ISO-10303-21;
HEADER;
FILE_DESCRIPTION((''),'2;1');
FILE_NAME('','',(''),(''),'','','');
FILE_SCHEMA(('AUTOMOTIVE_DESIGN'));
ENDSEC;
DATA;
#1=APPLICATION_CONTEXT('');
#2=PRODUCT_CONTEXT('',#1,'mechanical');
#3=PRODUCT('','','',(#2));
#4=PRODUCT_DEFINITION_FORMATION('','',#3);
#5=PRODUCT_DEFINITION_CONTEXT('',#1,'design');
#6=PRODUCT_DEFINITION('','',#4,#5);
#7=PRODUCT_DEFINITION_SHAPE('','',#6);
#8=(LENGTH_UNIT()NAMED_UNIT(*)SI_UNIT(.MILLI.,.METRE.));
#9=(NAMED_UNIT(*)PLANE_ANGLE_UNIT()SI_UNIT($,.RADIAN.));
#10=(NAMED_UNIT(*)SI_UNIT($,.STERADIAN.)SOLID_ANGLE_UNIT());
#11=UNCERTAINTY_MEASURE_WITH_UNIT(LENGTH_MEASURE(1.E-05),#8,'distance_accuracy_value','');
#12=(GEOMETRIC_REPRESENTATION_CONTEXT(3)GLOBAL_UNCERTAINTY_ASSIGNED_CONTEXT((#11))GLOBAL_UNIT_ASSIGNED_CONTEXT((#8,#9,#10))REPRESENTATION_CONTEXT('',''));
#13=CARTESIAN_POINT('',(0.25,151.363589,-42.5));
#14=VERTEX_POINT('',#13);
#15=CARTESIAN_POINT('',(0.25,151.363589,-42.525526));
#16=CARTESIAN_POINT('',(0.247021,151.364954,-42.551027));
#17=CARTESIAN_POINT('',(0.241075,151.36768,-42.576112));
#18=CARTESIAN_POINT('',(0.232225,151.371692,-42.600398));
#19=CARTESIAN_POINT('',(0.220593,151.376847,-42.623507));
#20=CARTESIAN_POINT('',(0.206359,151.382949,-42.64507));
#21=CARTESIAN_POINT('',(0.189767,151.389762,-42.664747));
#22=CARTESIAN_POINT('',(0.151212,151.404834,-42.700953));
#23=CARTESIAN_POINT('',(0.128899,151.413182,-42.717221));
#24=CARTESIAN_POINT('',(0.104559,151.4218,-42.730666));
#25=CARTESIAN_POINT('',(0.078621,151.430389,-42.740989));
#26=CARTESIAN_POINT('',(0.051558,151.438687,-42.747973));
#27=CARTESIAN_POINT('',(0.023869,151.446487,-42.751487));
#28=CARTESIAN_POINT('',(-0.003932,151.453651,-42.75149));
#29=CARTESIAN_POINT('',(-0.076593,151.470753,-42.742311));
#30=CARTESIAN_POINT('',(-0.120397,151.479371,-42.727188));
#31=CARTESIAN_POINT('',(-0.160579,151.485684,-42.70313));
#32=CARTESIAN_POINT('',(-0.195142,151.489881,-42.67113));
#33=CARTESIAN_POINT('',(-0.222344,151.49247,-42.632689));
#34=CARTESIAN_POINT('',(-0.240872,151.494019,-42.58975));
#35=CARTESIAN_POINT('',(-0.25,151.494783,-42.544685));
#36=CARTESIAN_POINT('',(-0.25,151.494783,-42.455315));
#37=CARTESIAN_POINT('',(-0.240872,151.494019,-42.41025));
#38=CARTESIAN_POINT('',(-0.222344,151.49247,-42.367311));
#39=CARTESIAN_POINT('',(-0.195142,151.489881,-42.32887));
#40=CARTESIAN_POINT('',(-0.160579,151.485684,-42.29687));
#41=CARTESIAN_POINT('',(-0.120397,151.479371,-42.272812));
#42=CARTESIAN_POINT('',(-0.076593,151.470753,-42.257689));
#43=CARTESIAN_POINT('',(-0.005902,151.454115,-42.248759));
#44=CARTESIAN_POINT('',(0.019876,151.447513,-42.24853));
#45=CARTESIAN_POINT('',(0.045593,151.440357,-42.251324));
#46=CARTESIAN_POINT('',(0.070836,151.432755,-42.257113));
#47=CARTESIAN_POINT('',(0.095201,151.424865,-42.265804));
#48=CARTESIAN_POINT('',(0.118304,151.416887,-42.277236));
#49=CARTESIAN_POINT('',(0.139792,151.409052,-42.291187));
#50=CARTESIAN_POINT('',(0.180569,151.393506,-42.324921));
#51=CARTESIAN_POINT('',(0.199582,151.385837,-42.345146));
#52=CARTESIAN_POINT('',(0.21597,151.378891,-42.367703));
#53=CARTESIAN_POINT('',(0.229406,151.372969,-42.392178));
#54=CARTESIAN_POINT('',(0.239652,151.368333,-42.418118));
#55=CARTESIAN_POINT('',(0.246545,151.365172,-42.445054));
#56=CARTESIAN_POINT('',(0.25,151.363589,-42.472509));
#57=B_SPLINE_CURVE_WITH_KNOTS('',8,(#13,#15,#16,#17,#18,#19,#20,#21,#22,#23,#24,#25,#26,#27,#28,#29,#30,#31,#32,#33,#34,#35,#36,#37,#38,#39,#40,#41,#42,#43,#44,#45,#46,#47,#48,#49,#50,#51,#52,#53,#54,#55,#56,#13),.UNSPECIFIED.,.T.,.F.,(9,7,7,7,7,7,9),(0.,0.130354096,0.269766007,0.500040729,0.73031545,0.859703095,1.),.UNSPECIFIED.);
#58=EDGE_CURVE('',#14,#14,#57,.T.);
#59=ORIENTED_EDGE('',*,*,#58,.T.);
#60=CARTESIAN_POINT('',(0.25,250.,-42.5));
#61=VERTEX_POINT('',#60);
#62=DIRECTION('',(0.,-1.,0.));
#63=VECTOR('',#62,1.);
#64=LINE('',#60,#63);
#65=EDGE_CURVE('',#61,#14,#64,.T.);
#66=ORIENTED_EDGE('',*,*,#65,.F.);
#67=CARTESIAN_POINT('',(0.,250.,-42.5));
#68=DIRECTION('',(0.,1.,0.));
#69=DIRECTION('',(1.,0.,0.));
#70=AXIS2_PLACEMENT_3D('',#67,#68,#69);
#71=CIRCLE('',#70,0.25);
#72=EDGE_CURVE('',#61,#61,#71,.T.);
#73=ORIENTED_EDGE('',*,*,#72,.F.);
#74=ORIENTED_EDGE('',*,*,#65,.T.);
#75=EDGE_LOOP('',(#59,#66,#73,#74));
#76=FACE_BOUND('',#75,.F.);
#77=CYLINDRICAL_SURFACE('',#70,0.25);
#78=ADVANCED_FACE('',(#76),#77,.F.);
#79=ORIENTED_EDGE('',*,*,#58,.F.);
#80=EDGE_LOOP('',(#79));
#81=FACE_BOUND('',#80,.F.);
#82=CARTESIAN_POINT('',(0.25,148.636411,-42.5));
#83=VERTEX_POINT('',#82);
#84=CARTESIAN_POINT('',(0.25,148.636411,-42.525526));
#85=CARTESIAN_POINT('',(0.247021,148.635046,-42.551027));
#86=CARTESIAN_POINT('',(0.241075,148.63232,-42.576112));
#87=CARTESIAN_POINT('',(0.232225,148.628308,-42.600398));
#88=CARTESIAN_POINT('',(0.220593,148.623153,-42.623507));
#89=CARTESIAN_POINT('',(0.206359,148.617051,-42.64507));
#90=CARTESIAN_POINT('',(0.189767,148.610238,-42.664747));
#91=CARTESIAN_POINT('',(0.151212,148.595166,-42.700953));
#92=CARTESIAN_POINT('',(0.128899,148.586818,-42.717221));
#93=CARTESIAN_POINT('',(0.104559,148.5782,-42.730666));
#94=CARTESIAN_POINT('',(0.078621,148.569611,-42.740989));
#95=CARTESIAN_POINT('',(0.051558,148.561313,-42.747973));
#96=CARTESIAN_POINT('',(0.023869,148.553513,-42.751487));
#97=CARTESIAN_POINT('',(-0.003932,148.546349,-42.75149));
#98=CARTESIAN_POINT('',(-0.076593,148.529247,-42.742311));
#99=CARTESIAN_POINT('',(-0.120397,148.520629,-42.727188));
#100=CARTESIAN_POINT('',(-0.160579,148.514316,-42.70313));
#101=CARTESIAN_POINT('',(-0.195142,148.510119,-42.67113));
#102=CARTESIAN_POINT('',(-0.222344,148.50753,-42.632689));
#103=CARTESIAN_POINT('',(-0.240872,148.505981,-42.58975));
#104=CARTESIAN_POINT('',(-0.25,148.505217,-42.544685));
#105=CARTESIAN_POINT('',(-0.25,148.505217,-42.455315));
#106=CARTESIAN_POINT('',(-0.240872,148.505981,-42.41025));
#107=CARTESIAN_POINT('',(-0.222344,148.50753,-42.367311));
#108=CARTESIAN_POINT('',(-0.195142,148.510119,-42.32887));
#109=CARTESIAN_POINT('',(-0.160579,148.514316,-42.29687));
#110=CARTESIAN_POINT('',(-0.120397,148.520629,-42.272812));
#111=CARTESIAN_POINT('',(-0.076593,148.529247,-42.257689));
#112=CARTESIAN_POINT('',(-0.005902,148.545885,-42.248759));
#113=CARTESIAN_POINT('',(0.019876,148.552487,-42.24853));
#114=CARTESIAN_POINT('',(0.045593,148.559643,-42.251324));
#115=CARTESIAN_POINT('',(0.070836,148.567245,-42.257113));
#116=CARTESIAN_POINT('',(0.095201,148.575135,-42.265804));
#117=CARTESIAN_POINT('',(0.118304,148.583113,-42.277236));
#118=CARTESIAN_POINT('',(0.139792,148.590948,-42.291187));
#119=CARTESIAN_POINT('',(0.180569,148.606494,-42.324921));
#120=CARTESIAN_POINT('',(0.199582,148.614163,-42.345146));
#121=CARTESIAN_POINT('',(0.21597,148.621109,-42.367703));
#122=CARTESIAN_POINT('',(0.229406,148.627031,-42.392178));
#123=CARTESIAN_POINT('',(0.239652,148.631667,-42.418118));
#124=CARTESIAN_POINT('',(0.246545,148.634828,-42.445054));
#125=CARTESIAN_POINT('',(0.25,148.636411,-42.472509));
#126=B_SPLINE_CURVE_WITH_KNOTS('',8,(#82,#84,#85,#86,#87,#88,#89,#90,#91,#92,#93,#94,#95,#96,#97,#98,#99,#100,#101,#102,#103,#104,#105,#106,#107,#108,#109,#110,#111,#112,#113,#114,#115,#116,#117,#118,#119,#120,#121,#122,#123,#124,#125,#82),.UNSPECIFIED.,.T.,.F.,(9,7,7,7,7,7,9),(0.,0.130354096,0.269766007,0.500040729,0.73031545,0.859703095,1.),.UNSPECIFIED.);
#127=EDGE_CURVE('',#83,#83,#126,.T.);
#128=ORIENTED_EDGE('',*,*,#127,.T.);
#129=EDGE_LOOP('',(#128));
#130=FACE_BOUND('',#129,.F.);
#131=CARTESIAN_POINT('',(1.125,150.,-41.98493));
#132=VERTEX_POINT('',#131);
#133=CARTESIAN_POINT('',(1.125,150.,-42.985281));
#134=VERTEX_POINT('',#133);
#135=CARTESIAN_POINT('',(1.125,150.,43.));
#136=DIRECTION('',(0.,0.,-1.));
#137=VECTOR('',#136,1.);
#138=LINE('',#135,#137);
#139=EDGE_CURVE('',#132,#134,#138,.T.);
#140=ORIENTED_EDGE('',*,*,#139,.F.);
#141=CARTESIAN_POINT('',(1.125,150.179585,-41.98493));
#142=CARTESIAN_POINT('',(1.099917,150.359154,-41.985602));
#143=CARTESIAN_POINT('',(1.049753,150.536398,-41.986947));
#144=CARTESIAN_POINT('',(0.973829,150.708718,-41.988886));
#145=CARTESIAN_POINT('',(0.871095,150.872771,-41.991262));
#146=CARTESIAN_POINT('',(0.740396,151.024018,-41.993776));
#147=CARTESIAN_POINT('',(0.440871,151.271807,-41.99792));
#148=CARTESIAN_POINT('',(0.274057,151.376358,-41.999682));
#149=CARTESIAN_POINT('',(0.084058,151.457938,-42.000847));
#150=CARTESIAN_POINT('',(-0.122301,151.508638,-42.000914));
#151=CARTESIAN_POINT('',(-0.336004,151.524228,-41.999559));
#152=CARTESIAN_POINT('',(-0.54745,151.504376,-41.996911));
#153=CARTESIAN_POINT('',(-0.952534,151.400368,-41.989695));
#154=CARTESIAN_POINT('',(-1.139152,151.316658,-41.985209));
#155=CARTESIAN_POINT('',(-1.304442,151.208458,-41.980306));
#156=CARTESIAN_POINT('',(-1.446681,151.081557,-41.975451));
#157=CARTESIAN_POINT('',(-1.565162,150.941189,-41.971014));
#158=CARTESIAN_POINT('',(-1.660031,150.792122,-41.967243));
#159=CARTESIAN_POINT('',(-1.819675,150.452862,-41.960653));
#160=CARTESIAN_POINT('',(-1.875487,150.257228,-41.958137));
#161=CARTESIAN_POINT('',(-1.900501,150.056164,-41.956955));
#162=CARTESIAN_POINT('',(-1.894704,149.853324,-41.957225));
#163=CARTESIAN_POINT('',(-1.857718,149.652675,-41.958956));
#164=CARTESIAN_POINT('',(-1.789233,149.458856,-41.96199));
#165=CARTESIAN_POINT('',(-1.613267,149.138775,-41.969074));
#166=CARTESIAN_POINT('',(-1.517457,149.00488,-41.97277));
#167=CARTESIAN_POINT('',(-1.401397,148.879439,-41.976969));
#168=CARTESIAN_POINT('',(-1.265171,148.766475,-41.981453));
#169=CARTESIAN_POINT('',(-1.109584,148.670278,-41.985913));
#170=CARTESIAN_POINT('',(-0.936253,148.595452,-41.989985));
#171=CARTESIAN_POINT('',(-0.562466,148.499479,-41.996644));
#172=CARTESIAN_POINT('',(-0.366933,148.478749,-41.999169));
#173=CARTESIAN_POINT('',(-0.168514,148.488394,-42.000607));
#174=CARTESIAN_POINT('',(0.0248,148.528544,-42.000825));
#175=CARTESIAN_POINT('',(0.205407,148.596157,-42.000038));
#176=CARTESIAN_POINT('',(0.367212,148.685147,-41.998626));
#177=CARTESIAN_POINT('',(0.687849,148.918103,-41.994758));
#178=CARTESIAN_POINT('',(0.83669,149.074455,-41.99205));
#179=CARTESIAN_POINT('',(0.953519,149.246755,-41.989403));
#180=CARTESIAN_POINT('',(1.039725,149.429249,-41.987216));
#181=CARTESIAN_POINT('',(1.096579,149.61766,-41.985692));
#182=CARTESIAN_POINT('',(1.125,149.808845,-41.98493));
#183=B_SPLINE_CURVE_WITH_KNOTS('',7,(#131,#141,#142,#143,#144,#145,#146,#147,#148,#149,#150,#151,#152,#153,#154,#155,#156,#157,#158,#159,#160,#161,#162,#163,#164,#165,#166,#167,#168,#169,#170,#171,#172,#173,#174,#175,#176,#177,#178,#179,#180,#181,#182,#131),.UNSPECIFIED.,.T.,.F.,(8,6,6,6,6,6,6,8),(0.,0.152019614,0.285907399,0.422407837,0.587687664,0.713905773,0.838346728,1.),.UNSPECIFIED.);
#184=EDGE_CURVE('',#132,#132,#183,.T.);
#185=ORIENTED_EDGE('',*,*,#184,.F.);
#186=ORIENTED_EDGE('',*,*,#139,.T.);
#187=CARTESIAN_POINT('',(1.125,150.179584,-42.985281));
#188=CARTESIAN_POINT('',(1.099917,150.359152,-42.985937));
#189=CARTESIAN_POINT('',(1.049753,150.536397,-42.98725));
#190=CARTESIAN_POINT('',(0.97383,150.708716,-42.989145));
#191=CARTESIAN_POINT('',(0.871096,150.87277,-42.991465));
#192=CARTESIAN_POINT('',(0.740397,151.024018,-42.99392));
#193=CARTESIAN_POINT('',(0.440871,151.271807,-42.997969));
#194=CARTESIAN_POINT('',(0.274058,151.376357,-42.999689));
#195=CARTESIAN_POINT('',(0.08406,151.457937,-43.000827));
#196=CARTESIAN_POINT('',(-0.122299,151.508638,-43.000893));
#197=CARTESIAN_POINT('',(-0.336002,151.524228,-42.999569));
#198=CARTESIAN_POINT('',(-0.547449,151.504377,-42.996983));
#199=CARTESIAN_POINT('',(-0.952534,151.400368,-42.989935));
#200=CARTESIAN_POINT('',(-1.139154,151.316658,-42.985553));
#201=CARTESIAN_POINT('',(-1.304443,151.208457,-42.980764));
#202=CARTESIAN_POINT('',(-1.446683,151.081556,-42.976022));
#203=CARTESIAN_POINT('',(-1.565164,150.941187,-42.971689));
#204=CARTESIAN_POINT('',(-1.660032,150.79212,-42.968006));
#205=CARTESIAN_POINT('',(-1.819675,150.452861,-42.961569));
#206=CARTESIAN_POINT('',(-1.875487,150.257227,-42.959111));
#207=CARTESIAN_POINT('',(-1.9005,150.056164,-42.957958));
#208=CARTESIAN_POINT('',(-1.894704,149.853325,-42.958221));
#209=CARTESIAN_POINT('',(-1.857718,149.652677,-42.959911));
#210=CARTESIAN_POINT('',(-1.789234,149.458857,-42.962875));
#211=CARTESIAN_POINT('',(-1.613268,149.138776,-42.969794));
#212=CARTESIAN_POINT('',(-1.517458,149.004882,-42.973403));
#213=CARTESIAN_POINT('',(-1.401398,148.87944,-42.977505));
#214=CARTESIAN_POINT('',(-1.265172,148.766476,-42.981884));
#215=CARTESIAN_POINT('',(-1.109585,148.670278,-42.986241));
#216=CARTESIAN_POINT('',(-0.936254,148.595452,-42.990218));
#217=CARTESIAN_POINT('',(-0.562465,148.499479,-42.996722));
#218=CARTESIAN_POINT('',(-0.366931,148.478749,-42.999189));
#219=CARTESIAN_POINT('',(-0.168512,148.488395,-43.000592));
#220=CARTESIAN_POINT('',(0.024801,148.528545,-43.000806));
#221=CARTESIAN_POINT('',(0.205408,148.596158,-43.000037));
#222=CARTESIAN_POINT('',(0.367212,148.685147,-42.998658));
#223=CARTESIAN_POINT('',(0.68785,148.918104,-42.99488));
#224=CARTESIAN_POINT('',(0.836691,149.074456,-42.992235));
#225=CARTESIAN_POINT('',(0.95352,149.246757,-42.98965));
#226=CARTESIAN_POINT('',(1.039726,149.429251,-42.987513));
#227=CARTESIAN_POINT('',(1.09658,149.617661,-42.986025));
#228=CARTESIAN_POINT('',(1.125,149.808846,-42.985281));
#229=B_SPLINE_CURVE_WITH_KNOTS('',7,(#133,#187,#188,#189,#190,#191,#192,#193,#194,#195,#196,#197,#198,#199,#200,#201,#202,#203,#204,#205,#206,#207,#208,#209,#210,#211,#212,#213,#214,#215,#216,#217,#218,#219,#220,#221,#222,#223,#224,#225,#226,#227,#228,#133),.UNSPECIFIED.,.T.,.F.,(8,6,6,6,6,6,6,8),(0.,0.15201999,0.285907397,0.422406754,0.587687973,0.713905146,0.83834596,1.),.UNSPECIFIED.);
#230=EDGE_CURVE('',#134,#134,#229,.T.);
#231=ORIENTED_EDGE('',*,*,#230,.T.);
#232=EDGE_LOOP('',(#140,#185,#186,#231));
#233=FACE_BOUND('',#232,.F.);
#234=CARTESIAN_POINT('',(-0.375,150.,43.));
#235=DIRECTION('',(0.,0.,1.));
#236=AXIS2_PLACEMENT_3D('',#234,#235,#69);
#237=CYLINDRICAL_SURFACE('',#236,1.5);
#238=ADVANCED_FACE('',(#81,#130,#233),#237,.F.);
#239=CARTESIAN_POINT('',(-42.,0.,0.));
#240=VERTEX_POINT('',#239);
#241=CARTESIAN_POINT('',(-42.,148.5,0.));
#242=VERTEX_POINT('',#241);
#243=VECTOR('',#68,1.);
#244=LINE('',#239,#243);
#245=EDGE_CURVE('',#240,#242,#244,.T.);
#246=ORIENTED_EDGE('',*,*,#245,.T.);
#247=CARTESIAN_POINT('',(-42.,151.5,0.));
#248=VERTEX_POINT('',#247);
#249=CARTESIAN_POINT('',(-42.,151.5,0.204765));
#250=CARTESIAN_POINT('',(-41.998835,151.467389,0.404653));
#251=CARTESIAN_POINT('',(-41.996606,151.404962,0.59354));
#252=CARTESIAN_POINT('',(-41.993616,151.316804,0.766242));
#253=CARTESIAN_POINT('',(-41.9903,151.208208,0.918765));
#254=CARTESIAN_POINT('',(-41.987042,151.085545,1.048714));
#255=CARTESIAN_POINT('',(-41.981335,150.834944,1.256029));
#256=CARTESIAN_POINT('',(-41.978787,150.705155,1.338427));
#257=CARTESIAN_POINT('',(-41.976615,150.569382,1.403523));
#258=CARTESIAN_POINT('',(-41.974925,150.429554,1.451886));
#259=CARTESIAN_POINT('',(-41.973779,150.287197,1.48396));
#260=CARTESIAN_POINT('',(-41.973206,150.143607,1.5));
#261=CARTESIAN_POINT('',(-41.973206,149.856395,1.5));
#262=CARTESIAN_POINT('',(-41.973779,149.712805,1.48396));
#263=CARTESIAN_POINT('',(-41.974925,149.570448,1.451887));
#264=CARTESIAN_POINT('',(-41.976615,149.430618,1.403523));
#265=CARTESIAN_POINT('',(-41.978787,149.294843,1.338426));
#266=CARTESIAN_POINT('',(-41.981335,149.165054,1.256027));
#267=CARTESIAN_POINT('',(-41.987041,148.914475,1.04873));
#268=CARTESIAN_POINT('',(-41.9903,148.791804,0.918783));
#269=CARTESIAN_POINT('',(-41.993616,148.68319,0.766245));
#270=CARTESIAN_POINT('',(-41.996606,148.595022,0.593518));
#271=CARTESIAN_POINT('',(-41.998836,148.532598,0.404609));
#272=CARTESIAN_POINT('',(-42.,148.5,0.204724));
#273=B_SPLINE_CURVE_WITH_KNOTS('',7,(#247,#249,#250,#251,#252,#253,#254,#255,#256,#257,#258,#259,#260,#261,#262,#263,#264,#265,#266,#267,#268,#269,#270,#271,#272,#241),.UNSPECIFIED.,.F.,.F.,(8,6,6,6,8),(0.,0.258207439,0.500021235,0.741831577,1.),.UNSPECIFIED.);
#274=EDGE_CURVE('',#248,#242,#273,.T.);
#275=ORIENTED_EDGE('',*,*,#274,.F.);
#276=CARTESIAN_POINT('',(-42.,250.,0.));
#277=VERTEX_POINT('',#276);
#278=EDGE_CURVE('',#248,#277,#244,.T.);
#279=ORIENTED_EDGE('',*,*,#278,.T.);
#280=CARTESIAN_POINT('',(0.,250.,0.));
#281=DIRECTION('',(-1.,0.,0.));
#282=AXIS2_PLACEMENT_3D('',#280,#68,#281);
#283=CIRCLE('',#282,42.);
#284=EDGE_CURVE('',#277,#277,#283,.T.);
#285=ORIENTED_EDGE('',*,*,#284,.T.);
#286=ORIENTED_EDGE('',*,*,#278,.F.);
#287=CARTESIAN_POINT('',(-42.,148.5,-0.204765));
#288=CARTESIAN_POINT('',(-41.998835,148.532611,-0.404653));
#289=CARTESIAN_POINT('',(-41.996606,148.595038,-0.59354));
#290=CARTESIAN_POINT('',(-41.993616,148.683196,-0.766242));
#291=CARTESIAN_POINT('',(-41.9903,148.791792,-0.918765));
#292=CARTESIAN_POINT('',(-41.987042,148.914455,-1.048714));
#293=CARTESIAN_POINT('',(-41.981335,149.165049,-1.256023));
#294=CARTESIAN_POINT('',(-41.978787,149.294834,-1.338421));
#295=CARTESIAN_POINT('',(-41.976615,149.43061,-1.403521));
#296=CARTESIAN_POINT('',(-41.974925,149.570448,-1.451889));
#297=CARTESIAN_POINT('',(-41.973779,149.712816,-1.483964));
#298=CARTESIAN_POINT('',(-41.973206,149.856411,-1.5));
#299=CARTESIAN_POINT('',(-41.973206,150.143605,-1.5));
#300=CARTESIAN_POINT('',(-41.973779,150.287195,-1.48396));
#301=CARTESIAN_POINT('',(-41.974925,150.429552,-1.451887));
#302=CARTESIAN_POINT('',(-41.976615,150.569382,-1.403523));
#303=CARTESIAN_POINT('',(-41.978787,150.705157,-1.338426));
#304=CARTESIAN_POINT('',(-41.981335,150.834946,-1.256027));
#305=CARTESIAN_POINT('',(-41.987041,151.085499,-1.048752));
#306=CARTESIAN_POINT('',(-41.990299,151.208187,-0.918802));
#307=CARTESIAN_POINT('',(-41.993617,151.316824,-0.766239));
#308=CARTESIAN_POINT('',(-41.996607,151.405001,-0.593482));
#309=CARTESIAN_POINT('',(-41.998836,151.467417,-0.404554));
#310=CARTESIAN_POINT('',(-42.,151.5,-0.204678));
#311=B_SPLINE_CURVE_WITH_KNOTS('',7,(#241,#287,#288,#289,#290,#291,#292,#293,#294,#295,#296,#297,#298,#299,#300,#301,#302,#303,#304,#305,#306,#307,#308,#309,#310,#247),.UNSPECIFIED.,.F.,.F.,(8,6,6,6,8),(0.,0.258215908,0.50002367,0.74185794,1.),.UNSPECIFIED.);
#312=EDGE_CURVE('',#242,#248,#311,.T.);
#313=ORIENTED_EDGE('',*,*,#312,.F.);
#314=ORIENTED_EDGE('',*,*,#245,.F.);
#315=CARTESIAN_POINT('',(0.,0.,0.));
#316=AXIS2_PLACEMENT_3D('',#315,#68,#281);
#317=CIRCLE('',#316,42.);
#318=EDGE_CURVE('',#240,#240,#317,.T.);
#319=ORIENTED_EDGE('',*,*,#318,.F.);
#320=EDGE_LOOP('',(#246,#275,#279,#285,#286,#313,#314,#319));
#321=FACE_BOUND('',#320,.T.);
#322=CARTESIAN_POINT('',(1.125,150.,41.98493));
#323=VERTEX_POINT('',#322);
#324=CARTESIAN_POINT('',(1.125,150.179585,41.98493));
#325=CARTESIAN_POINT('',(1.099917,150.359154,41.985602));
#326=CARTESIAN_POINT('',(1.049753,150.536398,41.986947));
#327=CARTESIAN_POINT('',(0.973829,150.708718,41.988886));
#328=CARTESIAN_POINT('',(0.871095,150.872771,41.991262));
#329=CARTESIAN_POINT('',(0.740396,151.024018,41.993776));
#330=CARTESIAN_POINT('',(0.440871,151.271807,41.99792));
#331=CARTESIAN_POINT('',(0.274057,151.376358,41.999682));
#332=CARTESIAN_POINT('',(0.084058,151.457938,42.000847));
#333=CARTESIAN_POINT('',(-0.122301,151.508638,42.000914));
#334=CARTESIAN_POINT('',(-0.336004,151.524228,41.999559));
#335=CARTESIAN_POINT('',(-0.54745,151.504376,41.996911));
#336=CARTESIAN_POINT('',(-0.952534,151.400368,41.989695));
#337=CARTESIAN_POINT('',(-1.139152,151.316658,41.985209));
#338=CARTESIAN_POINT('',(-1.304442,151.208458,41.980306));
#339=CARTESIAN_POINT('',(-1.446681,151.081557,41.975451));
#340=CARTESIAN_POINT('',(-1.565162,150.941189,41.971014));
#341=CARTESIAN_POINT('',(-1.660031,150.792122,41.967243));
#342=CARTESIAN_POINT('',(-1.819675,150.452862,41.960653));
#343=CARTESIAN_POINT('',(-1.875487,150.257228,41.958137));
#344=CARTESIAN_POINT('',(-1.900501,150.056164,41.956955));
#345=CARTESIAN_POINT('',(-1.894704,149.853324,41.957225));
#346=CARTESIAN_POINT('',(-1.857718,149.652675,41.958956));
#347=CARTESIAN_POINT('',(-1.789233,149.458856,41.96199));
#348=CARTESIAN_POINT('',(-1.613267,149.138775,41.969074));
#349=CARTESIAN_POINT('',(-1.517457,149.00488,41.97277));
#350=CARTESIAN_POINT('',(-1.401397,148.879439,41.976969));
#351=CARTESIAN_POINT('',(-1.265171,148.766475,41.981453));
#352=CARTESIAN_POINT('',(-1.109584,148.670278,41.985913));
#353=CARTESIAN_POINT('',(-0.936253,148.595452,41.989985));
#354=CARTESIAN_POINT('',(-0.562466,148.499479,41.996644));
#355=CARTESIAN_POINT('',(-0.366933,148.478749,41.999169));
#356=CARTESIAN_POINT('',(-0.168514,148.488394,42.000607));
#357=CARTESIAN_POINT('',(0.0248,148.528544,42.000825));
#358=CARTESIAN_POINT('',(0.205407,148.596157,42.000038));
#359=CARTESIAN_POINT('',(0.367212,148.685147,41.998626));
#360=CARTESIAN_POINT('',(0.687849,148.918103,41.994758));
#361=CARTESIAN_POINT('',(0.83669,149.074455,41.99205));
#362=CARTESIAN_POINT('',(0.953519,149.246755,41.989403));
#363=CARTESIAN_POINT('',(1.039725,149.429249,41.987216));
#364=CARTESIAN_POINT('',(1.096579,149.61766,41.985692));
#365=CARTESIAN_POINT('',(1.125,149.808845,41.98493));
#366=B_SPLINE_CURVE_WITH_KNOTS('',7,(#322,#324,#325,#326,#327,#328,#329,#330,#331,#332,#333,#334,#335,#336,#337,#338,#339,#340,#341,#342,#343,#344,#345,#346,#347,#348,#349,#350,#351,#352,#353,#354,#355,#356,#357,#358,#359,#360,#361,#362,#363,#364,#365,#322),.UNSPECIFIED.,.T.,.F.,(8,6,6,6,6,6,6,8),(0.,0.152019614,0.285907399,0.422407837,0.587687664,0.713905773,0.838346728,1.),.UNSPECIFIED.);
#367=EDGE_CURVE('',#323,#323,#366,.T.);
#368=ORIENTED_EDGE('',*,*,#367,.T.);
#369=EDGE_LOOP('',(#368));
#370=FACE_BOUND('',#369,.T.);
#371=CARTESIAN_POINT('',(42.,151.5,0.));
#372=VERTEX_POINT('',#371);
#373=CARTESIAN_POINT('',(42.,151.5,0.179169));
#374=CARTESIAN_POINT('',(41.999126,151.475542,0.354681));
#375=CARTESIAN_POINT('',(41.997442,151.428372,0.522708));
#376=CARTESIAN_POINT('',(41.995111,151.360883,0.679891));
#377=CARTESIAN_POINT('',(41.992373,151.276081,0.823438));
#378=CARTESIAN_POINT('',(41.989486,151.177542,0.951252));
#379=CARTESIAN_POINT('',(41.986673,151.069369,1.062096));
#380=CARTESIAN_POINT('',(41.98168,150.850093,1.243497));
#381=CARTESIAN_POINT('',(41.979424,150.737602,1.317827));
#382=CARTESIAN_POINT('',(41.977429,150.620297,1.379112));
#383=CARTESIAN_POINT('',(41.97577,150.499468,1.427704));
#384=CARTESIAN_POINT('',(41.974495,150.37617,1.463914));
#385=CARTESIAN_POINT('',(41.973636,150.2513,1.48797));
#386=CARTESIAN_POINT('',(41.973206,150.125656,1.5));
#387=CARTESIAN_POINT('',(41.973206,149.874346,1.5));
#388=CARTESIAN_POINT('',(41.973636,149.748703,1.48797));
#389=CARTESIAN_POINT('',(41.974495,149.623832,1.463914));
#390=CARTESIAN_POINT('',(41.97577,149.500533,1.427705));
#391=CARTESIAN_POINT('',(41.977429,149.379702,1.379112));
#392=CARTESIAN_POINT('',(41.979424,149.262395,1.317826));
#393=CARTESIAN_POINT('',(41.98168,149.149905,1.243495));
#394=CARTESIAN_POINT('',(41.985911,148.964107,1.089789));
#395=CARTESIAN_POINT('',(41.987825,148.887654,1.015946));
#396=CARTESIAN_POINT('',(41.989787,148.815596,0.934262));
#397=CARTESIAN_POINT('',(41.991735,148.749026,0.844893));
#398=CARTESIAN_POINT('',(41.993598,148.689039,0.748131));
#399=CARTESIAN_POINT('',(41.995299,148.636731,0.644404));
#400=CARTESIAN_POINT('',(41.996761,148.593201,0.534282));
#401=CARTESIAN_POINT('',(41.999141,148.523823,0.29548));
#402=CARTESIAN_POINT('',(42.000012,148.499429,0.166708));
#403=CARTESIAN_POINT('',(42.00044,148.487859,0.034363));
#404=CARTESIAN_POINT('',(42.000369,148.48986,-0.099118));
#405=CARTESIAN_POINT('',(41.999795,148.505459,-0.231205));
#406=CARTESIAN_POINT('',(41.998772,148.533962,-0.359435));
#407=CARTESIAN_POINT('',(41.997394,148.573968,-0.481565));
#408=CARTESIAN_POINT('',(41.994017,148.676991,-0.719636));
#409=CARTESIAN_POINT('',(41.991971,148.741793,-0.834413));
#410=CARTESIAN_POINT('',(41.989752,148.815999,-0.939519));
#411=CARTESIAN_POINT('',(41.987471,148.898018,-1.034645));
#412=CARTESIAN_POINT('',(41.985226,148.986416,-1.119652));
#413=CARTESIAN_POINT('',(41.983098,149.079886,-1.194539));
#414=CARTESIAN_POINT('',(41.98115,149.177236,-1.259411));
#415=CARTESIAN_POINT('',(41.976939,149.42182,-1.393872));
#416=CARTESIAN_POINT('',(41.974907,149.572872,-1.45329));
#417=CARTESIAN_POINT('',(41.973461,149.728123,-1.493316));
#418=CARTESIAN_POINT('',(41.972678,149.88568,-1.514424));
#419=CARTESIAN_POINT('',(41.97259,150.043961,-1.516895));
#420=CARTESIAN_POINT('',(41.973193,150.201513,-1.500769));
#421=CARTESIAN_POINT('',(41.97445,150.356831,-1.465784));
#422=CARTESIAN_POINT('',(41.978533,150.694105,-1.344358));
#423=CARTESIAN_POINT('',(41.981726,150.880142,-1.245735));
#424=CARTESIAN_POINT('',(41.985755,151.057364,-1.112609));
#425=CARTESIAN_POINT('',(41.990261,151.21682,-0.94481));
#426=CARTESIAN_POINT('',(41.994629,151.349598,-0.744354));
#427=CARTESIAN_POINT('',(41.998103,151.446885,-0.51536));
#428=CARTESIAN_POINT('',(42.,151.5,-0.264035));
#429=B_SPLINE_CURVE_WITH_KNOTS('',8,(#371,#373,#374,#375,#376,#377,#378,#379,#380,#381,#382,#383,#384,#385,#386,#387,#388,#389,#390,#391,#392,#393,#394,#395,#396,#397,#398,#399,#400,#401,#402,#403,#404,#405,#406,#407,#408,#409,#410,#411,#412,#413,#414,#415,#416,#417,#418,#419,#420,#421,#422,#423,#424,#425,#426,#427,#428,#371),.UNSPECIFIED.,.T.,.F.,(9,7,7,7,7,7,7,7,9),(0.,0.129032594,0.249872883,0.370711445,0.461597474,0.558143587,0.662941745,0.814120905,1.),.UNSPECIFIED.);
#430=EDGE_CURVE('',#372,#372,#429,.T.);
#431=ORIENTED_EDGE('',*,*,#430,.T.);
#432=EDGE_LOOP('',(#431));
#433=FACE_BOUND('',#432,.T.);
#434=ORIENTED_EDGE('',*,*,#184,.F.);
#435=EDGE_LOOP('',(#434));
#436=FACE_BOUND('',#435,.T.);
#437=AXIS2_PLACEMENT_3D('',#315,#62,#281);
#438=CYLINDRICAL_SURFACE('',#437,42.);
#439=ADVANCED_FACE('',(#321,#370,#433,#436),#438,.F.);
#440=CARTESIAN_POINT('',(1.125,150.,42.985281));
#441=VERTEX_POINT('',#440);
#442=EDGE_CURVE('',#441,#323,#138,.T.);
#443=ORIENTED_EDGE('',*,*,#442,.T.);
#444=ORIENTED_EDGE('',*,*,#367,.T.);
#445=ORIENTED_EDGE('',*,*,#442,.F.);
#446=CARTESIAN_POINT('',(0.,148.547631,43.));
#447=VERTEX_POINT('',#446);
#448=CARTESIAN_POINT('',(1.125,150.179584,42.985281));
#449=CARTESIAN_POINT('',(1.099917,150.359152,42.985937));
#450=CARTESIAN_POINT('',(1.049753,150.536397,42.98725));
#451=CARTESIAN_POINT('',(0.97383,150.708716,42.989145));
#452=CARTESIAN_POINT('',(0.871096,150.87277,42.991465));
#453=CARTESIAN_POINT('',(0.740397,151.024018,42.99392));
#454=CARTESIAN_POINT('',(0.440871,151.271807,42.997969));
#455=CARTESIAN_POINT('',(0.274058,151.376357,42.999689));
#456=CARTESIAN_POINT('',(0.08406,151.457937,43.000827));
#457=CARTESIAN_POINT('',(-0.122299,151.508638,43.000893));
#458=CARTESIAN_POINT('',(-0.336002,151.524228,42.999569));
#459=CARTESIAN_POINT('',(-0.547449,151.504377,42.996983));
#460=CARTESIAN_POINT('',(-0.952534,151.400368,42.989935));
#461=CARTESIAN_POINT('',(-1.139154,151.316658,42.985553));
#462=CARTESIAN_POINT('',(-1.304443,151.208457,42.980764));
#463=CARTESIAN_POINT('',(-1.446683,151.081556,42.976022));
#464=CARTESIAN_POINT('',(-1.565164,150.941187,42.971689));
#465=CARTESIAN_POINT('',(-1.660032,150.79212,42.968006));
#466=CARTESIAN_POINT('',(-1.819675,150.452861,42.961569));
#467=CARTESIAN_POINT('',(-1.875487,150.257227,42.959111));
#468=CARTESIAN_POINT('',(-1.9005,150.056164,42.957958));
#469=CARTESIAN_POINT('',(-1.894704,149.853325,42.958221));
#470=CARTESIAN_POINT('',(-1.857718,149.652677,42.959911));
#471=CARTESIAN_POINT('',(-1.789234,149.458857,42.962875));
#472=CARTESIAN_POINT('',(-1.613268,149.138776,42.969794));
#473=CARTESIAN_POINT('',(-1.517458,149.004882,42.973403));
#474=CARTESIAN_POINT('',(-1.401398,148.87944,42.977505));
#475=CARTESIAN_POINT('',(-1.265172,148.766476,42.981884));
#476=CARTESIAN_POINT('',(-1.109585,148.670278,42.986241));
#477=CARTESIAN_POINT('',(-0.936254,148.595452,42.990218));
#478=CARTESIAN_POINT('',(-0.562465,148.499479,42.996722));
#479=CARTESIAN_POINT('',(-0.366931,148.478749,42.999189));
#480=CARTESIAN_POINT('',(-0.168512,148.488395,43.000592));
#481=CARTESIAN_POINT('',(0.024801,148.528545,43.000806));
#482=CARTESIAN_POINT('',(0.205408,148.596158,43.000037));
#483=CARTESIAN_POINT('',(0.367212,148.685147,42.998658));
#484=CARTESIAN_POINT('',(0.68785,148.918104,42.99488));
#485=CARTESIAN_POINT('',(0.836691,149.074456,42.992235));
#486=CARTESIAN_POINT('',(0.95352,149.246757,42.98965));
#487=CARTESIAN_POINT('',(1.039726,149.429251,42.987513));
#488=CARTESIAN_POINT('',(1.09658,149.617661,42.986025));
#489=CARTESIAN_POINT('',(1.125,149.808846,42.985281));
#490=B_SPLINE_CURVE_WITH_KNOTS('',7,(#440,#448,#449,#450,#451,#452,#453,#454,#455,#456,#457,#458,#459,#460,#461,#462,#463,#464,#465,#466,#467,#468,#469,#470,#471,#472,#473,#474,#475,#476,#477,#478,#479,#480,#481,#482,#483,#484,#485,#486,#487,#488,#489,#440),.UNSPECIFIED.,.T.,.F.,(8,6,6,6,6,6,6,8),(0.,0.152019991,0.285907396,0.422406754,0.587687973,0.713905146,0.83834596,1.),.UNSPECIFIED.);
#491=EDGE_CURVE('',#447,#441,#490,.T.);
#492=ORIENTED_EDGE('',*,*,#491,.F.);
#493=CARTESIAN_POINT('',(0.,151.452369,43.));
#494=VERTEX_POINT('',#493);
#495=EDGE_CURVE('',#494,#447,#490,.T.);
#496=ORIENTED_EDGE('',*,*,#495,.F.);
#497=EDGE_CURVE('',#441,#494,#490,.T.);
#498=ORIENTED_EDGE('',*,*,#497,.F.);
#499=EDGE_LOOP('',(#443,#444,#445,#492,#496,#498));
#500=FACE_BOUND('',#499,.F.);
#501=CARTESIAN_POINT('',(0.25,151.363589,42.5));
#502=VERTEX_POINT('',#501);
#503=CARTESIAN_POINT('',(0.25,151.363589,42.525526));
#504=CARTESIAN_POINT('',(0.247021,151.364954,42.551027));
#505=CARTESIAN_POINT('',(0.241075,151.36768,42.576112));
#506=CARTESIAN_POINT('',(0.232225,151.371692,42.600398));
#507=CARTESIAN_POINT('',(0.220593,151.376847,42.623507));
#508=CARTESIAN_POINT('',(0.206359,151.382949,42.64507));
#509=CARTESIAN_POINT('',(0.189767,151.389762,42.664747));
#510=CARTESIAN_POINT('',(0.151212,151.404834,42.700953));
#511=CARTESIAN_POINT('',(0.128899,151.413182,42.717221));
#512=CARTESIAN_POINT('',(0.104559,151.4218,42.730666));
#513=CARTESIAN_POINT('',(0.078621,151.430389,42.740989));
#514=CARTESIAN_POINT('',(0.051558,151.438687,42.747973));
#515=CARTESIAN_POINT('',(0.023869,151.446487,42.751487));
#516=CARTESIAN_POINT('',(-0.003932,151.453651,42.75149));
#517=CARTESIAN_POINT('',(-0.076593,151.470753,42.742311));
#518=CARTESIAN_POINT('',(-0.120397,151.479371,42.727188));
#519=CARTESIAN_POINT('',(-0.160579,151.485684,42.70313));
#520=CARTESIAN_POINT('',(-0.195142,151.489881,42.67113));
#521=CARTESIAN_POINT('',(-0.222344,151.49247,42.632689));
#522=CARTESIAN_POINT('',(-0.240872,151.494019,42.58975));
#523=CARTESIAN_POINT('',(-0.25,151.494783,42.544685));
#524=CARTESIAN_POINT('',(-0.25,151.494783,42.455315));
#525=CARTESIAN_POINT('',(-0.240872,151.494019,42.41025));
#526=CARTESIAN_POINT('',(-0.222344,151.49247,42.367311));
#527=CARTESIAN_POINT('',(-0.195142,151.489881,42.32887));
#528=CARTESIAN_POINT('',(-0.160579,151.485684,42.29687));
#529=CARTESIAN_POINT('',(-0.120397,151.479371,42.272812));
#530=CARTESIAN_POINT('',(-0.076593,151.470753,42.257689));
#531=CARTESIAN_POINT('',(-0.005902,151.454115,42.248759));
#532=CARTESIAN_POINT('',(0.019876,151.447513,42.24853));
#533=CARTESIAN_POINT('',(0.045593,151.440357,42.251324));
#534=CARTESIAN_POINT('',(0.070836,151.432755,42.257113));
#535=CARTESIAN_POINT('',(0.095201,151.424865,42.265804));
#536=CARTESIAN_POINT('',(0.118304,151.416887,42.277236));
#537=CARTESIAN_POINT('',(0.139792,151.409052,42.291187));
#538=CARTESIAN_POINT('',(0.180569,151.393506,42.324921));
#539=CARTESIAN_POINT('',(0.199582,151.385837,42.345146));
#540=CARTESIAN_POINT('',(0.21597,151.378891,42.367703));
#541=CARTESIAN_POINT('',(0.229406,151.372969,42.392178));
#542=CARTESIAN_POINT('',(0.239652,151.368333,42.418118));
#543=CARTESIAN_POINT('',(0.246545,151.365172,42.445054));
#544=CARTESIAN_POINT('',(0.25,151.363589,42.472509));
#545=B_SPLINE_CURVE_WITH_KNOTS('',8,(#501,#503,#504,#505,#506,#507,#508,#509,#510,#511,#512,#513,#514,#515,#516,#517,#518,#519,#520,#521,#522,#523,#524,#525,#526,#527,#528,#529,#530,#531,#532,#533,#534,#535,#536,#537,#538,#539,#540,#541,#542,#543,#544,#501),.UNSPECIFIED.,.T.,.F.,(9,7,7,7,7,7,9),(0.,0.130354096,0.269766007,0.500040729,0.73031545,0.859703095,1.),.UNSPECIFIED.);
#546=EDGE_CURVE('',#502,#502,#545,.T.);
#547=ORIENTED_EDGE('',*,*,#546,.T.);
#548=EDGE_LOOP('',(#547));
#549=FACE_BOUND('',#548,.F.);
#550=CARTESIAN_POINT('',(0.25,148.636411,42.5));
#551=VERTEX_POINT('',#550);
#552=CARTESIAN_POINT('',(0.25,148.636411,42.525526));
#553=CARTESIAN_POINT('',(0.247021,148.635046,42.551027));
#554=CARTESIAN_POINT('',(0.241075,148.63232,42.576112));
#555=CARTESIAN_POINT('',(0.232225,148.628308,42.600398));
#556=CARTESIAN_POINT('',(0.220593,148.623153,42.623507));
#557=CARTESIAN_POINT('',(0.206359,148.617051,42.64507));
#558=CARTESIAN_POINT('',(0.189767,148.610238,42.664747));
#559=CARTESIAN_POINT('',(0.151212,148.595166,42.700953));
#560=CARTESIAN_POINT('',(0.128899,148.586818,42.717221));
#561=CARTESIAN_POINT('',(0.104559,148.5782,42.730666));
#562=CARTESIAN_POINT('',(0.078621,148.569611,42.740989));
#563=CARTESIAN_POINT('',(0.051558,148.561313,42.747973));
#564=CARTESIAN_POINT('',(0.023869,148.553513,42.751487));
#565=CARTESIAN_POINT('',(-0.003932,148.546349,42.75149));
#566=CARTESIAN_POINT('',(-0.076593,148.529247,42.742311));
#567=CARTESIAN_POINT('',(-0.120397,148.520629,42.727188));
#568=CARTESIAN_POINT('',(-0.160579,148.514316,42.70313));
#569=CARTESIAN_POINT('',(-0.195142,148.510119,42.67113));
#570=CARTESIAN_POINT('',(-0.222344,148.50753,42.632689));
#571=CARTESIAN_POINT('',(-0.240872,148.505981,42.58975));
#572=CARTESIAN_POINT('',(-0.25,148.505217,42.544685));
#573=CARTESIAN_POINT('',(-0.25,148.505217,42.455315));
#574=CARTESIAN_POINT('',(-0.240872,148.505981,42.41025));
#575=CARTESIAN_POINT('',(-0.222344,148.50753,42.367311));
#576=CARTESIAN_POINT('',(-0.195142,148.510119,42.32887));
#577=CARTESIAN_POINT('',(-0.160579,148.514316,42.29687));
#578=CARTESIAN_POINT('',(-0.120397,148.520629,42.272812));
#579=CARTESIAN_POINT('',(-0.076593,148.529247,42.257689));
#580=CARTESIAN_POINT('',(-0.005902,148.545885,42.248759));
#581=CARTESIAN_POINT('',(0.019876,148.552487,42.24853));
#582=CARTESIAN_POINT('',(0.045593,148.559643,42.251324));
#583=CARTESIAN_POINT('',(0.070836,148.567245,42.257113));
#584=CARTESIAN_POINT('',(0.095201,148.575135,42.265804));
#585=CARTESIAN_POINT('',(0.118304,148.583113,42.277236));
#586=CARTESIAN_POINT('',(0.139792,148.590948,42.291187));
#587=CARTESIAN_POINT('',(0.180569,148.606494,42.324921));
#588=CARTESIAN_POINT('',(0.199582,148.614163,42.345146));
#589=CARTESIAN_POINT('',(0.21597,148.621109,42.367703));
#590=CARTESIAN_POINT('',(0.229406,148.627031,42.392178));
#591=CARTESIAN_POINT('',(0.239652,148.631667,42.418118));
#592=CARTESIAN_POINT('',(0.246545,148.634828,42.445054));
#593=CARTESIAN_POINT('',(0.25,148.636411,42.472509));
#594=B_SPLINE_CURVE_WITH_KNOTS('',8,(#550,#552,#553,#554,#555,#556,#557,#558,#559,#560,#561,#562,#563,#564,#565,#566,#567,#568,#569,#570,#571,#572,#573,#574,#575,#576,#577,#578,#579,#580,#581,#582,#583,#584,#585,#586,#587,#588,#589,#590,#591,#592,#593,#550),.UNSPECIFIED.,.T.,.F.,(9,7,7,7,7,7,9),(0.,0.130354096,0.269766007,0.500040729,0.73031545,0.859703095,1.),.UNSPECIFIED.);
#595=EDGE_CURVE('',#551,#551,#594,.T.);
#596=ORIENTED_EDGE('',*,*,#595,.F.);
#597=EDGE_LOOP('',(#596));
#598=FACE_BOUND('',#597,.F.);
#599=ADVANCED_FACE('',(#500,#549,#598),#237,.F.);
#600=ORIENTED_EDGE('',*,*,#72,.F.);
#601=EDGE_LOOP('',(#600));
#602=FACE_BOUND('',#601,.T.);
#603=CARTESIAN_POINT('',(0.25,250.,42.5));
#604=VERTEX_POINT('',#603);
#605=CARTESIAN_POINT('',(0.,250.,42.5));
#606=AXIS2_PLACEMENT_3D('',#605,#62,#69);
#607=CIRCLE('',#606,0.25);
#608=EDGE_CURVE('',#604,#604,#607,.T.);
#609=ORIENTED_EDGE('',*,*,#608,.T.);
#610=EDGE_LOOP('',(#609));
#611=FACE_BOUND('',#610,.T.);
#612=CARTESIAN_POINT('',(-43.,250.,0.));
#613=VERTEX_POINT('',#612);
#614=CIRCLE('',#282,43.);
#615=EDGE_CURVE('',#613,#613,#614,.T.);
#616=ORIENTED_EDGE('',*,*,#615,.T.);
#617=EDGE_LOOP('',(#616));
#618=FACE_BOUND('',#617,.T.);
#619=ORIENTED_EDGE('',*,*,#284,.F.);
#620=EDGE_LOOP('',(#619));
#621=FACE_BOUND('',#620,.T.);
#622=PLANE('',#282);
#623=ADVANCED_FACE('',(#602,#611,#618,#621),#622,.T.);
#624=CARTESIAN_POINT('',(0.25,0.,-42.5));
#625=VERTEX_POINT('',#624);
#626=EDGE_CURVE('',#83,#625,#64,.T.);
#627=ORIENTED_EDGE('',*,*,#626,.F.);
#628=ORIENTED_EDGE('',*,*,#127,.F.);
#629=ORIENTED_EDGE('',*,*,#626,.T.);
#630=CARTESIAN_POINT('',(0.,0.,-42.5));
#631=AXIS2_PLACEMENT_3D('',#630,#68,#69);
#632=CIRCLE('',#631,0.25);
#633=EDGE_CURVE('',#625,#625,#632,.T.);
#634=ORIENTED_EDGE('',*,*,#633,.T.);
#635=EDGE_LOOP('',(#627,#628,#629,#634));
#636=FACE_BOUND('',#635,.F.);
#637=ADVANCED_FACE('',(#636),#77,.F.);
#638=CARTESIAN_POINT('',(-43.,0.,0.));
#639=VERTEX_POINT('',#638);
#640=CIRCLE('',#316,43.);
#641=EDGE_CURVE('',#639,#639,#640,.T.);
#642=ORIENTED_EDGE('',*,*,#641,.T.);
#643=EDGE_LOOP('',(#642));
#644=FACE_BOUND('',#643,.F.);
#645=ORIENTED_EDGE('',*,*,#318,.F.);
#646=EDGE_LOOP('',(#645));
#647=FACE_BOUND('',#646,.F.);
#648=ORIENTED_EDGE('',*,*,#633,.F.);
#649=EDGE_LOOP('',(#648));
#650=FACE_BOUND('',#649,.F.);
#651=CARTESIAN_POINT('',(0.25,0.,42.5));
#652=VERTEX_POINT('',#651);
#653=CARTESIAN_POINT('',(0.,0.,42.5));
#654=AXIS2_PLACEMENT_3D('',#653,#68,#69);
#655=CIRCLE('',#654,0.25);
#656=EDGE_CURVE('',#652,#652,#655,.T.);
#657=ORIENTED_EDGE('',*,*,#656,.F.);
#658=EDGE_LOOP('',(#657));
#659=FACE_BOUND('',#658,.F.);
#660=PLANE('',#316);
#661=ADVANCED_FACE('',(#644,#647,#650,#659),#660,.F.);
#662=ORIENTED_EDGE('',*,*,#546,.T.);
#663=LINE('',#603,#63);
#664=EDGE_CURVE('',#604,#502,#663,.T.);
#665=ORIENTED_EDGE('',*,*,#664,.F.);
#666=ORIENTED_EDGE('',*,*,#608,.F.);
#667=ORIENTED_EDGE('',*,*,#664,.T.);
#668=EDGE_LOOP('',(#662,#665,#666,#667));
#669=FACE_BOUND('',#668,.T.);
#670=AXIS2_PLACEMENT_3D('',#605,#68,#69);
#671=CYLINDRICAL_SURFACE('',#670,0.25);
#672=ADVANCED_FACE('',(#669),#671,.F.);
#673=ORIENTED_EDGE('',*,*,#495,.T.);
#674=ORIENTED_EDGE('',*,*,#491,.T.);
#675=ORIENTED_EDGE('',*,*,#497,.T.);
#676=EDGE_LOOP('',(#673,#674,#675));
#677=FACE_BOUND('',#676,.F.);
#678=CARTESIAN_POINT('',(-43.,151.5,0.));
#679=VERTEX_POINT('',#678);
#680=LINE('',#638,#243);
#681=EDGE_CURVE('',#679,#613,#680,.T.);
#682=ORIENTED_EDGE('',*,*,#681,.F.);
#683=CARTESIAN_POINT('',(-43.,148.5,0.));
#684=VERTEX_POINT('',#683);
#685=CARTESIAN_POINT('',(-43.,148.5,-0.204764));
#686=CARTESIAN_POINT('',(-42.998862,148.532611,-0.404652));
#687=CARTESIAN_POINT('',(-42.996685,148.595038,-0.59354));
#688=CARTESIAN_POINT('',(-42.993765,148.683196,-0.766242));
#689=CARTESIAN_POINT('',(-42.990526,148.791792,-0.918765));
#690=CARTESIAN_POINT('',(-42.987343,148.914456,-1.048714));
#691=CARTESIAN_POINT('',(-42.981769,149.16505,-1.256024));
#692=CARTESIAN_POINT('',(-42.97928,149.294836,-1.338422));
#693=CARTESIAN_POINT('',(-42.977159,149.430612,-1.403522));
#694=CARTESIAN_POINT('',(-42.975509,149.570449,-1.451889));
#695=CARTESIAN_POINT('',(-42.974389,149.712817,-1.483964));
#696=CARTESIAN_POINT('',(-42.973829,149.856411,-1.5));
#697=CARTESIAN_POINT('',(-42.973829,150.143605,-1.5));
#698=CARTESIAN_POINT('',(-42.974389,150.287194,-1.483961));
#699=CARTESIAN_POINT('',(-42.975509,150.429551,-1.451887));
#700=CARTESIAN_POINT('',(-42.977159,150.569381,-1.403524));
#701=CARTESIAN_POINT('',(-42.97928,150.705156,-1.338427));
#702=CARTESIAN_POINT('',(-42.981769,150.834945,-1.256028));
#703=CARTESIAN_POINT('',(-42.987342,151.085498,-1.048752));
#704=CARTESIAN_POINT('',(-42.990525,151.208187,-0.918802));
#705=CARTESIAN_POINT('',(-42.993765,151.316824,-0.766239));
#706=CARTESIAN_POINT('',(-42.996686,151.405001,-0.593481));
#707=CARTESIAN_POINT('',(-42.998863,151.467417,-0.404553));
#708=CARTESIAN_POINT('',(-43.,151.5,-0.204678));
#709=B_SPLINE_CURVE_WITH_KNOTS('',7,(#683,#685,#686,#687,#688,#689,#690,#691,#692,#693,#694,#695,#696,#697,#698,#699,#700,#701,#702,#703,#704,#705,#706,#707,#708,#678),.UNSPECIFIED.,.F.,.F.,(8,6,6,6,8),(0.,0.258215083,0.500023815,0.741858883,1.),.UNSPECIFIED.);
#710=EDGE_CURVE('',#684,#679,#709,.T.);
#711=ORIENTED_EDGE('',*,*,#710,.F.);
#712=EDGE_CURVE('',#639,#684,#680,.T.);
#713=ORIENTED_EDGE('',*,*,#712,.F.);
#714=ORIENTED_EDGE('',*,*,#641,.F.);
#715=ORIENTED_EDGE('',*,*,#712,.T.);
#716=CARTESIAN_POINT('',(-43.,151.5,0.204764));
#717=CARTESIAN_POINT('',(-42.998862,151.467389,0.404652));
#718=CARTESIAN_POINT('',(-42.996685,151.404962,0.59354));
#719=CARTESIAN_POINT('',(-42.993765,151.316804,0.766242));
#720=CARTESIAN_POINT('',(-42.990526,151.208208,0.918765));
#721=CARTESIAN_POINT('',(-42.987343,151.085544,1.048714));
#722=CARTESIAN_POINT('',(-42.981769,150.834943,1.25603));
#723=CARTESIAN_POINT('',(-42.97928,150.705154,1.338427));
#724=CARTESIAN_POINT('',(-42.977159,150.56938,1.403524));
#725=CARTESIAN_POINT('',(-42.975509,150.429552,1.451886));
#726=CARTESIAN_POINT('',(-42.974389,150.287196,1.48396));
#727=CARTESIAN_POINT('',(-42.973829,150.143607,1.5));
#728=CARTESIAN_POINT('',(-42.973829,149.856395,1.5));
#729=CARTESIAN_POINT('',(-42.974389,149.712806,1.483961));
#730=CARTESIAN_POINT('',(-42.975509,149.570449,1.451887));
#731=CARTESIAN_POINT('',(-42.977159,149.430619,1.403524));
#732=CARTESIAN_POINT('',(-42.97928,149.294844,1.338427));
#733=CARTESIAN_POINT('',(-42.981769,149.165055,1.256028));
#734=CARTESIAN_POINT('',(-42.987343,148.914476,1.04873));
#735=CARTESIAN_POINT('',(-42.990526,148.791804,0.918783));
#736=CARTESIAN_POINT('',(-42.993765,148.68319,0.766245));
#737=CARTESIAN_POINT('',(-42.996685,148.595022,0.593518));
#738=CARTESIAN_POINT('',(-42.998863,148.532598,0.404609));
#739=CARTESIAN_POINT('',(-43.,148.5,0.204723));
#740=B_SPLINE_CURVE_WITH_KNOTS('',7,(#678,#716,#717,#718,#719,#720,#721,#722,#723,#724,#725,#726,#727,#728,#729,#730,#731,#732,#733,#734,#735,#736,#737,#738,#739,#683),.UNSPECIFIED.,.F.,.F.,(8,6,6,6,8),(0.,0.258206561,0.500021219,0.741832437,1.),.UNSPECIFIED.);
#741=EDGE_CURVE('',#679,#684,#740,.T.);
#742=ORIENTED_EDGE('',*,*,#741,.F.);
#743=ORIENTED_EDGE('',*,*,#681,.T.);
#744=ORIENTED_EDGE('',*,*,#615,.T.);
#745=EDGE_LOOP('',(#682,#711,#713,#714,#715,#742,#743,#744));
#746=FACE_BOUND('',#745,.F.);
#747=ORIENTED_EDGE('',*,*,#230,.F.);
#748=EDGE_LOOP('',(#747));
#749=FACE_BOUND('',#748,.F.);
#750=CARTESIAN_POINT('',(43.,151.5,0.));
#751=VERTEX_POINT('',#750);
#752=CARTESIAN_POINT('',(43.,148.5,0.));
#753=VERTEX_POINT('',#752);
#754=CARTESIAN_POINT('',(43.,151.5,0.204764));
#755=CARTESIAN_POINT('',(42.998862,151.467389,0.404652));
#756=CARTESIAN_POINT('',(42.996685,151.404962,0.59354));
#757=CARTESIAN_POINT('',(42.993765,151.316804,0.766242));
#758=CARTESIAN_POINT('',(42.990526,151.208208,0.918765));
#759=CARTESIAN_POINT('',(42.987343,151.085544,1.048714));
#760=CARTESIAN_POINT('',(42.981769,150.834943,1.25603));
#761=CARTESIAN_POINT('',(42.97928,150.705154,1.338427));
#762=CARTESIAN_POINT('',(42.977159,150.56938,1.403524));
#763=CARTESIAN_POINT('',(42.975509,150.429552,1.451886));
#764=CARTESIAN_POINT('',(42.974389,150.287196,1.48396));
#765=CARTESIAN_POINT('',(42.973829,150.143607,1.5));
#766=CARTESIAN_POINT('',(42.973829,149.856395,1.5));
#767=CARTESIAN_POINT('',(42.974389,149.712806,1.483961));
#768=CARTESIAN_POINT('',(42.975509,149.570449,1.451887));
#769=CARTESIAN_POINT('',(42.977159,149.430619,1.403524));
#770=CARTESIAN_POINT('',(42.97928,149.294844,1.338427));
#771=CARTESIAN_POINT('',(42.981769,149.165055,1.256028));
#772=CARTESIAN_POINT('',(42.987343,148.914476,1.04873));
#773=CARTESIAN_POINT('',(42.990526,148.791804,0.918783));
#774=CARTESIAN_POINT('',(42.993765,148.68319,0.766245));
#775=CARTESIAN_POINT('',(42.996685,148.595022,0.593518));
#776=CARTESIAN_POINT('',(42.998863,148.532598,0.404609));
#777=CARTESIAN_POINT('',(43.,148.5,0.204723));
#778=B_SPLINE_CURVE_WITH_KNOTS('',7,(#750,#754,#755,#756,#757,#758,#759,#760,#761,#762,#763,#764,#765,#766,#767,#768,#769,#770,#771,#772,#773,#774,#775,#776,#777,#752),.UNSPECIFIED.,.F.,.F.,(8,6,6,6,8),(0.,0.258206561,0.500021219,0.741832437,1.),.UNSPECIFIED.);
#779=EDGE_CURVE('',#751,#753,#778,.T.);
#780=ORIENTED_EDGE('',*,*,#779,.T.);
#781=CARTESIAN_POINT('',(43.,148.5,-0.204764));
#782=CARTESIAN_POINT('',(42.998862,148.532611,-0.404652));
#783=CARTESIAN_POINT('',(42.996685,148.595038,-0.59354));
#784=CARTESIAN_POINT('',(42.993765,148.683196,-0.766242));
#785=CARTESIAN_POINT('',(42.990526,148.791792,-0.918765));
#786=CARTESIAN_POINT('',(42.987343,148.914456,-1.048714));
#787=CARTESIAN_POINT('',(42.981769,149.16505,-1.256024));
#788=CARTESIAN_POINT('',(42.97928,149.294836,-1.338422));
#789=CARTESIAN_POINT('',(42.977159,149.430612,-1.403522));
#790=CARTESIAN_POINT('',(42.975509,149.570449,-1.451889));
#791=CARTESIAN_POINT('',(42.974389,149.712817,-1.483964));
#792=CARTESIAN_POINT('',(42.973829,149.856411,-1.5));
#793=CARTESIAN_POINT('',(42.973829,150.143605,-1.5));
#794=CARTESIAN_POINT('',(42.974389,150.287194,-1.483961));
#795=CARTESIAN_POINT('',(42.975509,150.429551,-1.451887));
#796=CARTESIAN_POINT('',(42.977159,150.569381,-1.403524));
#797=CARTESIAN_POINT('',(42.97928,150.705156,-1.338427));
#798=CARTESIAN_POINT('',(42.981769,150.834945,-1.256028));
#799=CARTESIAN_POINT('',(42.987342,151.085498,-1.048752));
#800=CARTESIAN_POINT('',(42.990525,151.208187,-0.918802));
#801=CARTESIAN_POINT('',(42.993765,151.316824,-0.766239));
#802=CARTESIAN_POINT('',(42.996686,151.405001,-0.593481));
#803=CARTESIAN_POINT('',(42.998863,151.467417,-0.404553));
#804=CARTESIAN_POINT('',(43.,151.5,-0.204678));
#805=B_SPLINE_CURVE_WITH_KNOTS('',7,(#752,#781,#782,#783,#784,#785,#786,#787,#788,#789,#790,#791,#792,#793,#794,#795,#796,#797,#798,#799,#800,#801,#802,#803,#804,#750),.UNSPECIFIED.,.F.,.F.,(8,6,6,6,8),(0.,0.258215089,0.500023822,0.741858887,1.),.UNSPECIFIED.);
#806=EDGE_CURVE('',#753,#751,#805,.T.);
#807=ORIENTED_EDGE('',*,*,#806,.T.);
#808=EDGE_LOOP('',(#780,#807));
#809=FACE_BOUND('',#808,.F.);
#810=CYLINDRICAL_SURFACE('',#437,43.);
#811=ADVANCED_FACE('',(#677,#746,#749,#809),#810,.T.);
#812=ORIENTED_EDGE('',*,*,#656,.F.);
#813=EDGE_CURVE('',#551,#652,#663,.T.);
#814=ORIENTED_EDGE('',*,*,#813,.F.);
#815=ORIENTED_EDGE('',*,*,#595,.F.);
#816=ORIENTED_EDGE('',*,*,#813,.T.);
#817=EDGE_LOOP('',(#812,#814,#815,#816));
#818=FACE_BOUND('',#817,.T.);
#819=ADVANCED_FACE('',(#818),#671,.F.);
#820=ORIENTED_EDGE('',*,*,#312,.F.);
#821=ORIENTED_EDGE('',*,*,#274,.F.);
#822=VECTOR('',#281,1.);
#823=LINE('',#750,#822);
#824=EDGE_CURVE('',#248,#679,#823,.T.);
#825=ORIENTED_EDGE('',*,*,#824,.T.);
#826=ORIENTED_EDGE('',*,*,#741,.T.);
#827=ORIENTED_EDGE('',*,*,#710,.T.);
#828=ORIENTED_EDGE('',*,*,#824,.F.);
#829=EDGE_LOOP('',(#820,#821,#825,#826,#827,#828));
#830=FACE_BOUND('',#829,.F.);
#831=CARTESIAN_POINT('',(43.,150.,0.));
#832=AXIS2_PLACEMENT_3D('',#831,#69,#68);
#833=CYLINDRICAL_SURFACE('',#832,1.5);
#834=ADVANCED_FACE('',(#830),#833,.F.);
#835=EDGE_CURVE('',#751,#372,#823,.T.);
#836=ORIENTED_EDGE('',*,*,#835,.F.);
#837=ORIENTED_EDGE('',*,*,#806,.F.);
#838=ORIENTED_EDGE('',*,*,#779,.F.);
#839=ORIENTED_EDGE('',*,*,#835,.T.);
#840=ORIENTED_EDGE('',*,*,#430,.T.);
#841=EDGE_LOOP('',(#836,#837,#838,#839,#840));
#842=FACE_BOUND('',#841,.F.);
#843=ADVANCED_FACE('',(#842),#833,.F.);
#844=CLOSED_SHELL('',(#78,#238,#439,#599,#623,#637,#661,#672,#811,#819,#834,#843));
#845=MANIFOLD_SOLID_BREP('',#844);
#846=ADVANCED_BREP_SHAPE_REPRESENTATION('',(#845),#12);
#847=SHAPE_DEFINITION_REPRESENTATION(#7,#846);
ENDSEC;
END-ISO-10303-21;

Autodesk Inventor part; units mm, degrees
sketch "Sketch3" plane through (0, 0, 0) normal (0, 1, 0) x (-1, 0, 0)
  circle A0 centre (0, 0) radius 43
  circle A1 centre (0, 0) radius 42
  dimension "d8" = 86
  dimension "d9" = 84
extrude "Extrusion3" add sketch "Sketch3" along normal blind 250
ref_plane "Work Plane2" through (0, 125, 0) normal (0, 1, 0) x (-1, 0, 0)
sketch "Sketch4" plane through (0, 250, 0) normal (0, 1, 0) x (1, 0, 0)
  circle A0 centre (0, 42.5) radius 0.25
  point P0 (0, 0)
  dimension "d12" = 0.5
  dimension "d13" = 42.5
extrude "Extrusion4" cut sketch "Sketch4" along normal through all both and the other way through all
mirror "Mirror1" about plane through (0, 0, 0) normal (0, 0, 1) of "Extrusion4"
ref_plane "Work Plane3" through (43, 0, 0) normal (1, 0, 0) x (0, 1, 0)
sketch "Sketch5" plane through (43, 0, 0) normal (1, 0, 0) x (0, 1, 0)
  circle A0 centre (150, 0) radius 1.5
  point P0 (0, 0)
  dimension "d16" = 3
  dimension "d24" = 150
extrude "Extrusion5" cut sketch "Sketch5" against normal through all
ref_plane "Work Plane4" through (0, 0, 43) normal (0, 0, 1) x (1, 0, 0)
sketch "Sketch6" plane through (0, 0, 43) normal (0, 0, 1) x (1, 0, 0)
  circle A0 centre (-0.375, 150) radius 1.5
  point P0 (0, 0)
  dimension "d22" = 3
  dimension "d23" = 150
extrude "Extrusion6" cut sketch "Sketch6" against normal through all
properties part number "seed_holder"
